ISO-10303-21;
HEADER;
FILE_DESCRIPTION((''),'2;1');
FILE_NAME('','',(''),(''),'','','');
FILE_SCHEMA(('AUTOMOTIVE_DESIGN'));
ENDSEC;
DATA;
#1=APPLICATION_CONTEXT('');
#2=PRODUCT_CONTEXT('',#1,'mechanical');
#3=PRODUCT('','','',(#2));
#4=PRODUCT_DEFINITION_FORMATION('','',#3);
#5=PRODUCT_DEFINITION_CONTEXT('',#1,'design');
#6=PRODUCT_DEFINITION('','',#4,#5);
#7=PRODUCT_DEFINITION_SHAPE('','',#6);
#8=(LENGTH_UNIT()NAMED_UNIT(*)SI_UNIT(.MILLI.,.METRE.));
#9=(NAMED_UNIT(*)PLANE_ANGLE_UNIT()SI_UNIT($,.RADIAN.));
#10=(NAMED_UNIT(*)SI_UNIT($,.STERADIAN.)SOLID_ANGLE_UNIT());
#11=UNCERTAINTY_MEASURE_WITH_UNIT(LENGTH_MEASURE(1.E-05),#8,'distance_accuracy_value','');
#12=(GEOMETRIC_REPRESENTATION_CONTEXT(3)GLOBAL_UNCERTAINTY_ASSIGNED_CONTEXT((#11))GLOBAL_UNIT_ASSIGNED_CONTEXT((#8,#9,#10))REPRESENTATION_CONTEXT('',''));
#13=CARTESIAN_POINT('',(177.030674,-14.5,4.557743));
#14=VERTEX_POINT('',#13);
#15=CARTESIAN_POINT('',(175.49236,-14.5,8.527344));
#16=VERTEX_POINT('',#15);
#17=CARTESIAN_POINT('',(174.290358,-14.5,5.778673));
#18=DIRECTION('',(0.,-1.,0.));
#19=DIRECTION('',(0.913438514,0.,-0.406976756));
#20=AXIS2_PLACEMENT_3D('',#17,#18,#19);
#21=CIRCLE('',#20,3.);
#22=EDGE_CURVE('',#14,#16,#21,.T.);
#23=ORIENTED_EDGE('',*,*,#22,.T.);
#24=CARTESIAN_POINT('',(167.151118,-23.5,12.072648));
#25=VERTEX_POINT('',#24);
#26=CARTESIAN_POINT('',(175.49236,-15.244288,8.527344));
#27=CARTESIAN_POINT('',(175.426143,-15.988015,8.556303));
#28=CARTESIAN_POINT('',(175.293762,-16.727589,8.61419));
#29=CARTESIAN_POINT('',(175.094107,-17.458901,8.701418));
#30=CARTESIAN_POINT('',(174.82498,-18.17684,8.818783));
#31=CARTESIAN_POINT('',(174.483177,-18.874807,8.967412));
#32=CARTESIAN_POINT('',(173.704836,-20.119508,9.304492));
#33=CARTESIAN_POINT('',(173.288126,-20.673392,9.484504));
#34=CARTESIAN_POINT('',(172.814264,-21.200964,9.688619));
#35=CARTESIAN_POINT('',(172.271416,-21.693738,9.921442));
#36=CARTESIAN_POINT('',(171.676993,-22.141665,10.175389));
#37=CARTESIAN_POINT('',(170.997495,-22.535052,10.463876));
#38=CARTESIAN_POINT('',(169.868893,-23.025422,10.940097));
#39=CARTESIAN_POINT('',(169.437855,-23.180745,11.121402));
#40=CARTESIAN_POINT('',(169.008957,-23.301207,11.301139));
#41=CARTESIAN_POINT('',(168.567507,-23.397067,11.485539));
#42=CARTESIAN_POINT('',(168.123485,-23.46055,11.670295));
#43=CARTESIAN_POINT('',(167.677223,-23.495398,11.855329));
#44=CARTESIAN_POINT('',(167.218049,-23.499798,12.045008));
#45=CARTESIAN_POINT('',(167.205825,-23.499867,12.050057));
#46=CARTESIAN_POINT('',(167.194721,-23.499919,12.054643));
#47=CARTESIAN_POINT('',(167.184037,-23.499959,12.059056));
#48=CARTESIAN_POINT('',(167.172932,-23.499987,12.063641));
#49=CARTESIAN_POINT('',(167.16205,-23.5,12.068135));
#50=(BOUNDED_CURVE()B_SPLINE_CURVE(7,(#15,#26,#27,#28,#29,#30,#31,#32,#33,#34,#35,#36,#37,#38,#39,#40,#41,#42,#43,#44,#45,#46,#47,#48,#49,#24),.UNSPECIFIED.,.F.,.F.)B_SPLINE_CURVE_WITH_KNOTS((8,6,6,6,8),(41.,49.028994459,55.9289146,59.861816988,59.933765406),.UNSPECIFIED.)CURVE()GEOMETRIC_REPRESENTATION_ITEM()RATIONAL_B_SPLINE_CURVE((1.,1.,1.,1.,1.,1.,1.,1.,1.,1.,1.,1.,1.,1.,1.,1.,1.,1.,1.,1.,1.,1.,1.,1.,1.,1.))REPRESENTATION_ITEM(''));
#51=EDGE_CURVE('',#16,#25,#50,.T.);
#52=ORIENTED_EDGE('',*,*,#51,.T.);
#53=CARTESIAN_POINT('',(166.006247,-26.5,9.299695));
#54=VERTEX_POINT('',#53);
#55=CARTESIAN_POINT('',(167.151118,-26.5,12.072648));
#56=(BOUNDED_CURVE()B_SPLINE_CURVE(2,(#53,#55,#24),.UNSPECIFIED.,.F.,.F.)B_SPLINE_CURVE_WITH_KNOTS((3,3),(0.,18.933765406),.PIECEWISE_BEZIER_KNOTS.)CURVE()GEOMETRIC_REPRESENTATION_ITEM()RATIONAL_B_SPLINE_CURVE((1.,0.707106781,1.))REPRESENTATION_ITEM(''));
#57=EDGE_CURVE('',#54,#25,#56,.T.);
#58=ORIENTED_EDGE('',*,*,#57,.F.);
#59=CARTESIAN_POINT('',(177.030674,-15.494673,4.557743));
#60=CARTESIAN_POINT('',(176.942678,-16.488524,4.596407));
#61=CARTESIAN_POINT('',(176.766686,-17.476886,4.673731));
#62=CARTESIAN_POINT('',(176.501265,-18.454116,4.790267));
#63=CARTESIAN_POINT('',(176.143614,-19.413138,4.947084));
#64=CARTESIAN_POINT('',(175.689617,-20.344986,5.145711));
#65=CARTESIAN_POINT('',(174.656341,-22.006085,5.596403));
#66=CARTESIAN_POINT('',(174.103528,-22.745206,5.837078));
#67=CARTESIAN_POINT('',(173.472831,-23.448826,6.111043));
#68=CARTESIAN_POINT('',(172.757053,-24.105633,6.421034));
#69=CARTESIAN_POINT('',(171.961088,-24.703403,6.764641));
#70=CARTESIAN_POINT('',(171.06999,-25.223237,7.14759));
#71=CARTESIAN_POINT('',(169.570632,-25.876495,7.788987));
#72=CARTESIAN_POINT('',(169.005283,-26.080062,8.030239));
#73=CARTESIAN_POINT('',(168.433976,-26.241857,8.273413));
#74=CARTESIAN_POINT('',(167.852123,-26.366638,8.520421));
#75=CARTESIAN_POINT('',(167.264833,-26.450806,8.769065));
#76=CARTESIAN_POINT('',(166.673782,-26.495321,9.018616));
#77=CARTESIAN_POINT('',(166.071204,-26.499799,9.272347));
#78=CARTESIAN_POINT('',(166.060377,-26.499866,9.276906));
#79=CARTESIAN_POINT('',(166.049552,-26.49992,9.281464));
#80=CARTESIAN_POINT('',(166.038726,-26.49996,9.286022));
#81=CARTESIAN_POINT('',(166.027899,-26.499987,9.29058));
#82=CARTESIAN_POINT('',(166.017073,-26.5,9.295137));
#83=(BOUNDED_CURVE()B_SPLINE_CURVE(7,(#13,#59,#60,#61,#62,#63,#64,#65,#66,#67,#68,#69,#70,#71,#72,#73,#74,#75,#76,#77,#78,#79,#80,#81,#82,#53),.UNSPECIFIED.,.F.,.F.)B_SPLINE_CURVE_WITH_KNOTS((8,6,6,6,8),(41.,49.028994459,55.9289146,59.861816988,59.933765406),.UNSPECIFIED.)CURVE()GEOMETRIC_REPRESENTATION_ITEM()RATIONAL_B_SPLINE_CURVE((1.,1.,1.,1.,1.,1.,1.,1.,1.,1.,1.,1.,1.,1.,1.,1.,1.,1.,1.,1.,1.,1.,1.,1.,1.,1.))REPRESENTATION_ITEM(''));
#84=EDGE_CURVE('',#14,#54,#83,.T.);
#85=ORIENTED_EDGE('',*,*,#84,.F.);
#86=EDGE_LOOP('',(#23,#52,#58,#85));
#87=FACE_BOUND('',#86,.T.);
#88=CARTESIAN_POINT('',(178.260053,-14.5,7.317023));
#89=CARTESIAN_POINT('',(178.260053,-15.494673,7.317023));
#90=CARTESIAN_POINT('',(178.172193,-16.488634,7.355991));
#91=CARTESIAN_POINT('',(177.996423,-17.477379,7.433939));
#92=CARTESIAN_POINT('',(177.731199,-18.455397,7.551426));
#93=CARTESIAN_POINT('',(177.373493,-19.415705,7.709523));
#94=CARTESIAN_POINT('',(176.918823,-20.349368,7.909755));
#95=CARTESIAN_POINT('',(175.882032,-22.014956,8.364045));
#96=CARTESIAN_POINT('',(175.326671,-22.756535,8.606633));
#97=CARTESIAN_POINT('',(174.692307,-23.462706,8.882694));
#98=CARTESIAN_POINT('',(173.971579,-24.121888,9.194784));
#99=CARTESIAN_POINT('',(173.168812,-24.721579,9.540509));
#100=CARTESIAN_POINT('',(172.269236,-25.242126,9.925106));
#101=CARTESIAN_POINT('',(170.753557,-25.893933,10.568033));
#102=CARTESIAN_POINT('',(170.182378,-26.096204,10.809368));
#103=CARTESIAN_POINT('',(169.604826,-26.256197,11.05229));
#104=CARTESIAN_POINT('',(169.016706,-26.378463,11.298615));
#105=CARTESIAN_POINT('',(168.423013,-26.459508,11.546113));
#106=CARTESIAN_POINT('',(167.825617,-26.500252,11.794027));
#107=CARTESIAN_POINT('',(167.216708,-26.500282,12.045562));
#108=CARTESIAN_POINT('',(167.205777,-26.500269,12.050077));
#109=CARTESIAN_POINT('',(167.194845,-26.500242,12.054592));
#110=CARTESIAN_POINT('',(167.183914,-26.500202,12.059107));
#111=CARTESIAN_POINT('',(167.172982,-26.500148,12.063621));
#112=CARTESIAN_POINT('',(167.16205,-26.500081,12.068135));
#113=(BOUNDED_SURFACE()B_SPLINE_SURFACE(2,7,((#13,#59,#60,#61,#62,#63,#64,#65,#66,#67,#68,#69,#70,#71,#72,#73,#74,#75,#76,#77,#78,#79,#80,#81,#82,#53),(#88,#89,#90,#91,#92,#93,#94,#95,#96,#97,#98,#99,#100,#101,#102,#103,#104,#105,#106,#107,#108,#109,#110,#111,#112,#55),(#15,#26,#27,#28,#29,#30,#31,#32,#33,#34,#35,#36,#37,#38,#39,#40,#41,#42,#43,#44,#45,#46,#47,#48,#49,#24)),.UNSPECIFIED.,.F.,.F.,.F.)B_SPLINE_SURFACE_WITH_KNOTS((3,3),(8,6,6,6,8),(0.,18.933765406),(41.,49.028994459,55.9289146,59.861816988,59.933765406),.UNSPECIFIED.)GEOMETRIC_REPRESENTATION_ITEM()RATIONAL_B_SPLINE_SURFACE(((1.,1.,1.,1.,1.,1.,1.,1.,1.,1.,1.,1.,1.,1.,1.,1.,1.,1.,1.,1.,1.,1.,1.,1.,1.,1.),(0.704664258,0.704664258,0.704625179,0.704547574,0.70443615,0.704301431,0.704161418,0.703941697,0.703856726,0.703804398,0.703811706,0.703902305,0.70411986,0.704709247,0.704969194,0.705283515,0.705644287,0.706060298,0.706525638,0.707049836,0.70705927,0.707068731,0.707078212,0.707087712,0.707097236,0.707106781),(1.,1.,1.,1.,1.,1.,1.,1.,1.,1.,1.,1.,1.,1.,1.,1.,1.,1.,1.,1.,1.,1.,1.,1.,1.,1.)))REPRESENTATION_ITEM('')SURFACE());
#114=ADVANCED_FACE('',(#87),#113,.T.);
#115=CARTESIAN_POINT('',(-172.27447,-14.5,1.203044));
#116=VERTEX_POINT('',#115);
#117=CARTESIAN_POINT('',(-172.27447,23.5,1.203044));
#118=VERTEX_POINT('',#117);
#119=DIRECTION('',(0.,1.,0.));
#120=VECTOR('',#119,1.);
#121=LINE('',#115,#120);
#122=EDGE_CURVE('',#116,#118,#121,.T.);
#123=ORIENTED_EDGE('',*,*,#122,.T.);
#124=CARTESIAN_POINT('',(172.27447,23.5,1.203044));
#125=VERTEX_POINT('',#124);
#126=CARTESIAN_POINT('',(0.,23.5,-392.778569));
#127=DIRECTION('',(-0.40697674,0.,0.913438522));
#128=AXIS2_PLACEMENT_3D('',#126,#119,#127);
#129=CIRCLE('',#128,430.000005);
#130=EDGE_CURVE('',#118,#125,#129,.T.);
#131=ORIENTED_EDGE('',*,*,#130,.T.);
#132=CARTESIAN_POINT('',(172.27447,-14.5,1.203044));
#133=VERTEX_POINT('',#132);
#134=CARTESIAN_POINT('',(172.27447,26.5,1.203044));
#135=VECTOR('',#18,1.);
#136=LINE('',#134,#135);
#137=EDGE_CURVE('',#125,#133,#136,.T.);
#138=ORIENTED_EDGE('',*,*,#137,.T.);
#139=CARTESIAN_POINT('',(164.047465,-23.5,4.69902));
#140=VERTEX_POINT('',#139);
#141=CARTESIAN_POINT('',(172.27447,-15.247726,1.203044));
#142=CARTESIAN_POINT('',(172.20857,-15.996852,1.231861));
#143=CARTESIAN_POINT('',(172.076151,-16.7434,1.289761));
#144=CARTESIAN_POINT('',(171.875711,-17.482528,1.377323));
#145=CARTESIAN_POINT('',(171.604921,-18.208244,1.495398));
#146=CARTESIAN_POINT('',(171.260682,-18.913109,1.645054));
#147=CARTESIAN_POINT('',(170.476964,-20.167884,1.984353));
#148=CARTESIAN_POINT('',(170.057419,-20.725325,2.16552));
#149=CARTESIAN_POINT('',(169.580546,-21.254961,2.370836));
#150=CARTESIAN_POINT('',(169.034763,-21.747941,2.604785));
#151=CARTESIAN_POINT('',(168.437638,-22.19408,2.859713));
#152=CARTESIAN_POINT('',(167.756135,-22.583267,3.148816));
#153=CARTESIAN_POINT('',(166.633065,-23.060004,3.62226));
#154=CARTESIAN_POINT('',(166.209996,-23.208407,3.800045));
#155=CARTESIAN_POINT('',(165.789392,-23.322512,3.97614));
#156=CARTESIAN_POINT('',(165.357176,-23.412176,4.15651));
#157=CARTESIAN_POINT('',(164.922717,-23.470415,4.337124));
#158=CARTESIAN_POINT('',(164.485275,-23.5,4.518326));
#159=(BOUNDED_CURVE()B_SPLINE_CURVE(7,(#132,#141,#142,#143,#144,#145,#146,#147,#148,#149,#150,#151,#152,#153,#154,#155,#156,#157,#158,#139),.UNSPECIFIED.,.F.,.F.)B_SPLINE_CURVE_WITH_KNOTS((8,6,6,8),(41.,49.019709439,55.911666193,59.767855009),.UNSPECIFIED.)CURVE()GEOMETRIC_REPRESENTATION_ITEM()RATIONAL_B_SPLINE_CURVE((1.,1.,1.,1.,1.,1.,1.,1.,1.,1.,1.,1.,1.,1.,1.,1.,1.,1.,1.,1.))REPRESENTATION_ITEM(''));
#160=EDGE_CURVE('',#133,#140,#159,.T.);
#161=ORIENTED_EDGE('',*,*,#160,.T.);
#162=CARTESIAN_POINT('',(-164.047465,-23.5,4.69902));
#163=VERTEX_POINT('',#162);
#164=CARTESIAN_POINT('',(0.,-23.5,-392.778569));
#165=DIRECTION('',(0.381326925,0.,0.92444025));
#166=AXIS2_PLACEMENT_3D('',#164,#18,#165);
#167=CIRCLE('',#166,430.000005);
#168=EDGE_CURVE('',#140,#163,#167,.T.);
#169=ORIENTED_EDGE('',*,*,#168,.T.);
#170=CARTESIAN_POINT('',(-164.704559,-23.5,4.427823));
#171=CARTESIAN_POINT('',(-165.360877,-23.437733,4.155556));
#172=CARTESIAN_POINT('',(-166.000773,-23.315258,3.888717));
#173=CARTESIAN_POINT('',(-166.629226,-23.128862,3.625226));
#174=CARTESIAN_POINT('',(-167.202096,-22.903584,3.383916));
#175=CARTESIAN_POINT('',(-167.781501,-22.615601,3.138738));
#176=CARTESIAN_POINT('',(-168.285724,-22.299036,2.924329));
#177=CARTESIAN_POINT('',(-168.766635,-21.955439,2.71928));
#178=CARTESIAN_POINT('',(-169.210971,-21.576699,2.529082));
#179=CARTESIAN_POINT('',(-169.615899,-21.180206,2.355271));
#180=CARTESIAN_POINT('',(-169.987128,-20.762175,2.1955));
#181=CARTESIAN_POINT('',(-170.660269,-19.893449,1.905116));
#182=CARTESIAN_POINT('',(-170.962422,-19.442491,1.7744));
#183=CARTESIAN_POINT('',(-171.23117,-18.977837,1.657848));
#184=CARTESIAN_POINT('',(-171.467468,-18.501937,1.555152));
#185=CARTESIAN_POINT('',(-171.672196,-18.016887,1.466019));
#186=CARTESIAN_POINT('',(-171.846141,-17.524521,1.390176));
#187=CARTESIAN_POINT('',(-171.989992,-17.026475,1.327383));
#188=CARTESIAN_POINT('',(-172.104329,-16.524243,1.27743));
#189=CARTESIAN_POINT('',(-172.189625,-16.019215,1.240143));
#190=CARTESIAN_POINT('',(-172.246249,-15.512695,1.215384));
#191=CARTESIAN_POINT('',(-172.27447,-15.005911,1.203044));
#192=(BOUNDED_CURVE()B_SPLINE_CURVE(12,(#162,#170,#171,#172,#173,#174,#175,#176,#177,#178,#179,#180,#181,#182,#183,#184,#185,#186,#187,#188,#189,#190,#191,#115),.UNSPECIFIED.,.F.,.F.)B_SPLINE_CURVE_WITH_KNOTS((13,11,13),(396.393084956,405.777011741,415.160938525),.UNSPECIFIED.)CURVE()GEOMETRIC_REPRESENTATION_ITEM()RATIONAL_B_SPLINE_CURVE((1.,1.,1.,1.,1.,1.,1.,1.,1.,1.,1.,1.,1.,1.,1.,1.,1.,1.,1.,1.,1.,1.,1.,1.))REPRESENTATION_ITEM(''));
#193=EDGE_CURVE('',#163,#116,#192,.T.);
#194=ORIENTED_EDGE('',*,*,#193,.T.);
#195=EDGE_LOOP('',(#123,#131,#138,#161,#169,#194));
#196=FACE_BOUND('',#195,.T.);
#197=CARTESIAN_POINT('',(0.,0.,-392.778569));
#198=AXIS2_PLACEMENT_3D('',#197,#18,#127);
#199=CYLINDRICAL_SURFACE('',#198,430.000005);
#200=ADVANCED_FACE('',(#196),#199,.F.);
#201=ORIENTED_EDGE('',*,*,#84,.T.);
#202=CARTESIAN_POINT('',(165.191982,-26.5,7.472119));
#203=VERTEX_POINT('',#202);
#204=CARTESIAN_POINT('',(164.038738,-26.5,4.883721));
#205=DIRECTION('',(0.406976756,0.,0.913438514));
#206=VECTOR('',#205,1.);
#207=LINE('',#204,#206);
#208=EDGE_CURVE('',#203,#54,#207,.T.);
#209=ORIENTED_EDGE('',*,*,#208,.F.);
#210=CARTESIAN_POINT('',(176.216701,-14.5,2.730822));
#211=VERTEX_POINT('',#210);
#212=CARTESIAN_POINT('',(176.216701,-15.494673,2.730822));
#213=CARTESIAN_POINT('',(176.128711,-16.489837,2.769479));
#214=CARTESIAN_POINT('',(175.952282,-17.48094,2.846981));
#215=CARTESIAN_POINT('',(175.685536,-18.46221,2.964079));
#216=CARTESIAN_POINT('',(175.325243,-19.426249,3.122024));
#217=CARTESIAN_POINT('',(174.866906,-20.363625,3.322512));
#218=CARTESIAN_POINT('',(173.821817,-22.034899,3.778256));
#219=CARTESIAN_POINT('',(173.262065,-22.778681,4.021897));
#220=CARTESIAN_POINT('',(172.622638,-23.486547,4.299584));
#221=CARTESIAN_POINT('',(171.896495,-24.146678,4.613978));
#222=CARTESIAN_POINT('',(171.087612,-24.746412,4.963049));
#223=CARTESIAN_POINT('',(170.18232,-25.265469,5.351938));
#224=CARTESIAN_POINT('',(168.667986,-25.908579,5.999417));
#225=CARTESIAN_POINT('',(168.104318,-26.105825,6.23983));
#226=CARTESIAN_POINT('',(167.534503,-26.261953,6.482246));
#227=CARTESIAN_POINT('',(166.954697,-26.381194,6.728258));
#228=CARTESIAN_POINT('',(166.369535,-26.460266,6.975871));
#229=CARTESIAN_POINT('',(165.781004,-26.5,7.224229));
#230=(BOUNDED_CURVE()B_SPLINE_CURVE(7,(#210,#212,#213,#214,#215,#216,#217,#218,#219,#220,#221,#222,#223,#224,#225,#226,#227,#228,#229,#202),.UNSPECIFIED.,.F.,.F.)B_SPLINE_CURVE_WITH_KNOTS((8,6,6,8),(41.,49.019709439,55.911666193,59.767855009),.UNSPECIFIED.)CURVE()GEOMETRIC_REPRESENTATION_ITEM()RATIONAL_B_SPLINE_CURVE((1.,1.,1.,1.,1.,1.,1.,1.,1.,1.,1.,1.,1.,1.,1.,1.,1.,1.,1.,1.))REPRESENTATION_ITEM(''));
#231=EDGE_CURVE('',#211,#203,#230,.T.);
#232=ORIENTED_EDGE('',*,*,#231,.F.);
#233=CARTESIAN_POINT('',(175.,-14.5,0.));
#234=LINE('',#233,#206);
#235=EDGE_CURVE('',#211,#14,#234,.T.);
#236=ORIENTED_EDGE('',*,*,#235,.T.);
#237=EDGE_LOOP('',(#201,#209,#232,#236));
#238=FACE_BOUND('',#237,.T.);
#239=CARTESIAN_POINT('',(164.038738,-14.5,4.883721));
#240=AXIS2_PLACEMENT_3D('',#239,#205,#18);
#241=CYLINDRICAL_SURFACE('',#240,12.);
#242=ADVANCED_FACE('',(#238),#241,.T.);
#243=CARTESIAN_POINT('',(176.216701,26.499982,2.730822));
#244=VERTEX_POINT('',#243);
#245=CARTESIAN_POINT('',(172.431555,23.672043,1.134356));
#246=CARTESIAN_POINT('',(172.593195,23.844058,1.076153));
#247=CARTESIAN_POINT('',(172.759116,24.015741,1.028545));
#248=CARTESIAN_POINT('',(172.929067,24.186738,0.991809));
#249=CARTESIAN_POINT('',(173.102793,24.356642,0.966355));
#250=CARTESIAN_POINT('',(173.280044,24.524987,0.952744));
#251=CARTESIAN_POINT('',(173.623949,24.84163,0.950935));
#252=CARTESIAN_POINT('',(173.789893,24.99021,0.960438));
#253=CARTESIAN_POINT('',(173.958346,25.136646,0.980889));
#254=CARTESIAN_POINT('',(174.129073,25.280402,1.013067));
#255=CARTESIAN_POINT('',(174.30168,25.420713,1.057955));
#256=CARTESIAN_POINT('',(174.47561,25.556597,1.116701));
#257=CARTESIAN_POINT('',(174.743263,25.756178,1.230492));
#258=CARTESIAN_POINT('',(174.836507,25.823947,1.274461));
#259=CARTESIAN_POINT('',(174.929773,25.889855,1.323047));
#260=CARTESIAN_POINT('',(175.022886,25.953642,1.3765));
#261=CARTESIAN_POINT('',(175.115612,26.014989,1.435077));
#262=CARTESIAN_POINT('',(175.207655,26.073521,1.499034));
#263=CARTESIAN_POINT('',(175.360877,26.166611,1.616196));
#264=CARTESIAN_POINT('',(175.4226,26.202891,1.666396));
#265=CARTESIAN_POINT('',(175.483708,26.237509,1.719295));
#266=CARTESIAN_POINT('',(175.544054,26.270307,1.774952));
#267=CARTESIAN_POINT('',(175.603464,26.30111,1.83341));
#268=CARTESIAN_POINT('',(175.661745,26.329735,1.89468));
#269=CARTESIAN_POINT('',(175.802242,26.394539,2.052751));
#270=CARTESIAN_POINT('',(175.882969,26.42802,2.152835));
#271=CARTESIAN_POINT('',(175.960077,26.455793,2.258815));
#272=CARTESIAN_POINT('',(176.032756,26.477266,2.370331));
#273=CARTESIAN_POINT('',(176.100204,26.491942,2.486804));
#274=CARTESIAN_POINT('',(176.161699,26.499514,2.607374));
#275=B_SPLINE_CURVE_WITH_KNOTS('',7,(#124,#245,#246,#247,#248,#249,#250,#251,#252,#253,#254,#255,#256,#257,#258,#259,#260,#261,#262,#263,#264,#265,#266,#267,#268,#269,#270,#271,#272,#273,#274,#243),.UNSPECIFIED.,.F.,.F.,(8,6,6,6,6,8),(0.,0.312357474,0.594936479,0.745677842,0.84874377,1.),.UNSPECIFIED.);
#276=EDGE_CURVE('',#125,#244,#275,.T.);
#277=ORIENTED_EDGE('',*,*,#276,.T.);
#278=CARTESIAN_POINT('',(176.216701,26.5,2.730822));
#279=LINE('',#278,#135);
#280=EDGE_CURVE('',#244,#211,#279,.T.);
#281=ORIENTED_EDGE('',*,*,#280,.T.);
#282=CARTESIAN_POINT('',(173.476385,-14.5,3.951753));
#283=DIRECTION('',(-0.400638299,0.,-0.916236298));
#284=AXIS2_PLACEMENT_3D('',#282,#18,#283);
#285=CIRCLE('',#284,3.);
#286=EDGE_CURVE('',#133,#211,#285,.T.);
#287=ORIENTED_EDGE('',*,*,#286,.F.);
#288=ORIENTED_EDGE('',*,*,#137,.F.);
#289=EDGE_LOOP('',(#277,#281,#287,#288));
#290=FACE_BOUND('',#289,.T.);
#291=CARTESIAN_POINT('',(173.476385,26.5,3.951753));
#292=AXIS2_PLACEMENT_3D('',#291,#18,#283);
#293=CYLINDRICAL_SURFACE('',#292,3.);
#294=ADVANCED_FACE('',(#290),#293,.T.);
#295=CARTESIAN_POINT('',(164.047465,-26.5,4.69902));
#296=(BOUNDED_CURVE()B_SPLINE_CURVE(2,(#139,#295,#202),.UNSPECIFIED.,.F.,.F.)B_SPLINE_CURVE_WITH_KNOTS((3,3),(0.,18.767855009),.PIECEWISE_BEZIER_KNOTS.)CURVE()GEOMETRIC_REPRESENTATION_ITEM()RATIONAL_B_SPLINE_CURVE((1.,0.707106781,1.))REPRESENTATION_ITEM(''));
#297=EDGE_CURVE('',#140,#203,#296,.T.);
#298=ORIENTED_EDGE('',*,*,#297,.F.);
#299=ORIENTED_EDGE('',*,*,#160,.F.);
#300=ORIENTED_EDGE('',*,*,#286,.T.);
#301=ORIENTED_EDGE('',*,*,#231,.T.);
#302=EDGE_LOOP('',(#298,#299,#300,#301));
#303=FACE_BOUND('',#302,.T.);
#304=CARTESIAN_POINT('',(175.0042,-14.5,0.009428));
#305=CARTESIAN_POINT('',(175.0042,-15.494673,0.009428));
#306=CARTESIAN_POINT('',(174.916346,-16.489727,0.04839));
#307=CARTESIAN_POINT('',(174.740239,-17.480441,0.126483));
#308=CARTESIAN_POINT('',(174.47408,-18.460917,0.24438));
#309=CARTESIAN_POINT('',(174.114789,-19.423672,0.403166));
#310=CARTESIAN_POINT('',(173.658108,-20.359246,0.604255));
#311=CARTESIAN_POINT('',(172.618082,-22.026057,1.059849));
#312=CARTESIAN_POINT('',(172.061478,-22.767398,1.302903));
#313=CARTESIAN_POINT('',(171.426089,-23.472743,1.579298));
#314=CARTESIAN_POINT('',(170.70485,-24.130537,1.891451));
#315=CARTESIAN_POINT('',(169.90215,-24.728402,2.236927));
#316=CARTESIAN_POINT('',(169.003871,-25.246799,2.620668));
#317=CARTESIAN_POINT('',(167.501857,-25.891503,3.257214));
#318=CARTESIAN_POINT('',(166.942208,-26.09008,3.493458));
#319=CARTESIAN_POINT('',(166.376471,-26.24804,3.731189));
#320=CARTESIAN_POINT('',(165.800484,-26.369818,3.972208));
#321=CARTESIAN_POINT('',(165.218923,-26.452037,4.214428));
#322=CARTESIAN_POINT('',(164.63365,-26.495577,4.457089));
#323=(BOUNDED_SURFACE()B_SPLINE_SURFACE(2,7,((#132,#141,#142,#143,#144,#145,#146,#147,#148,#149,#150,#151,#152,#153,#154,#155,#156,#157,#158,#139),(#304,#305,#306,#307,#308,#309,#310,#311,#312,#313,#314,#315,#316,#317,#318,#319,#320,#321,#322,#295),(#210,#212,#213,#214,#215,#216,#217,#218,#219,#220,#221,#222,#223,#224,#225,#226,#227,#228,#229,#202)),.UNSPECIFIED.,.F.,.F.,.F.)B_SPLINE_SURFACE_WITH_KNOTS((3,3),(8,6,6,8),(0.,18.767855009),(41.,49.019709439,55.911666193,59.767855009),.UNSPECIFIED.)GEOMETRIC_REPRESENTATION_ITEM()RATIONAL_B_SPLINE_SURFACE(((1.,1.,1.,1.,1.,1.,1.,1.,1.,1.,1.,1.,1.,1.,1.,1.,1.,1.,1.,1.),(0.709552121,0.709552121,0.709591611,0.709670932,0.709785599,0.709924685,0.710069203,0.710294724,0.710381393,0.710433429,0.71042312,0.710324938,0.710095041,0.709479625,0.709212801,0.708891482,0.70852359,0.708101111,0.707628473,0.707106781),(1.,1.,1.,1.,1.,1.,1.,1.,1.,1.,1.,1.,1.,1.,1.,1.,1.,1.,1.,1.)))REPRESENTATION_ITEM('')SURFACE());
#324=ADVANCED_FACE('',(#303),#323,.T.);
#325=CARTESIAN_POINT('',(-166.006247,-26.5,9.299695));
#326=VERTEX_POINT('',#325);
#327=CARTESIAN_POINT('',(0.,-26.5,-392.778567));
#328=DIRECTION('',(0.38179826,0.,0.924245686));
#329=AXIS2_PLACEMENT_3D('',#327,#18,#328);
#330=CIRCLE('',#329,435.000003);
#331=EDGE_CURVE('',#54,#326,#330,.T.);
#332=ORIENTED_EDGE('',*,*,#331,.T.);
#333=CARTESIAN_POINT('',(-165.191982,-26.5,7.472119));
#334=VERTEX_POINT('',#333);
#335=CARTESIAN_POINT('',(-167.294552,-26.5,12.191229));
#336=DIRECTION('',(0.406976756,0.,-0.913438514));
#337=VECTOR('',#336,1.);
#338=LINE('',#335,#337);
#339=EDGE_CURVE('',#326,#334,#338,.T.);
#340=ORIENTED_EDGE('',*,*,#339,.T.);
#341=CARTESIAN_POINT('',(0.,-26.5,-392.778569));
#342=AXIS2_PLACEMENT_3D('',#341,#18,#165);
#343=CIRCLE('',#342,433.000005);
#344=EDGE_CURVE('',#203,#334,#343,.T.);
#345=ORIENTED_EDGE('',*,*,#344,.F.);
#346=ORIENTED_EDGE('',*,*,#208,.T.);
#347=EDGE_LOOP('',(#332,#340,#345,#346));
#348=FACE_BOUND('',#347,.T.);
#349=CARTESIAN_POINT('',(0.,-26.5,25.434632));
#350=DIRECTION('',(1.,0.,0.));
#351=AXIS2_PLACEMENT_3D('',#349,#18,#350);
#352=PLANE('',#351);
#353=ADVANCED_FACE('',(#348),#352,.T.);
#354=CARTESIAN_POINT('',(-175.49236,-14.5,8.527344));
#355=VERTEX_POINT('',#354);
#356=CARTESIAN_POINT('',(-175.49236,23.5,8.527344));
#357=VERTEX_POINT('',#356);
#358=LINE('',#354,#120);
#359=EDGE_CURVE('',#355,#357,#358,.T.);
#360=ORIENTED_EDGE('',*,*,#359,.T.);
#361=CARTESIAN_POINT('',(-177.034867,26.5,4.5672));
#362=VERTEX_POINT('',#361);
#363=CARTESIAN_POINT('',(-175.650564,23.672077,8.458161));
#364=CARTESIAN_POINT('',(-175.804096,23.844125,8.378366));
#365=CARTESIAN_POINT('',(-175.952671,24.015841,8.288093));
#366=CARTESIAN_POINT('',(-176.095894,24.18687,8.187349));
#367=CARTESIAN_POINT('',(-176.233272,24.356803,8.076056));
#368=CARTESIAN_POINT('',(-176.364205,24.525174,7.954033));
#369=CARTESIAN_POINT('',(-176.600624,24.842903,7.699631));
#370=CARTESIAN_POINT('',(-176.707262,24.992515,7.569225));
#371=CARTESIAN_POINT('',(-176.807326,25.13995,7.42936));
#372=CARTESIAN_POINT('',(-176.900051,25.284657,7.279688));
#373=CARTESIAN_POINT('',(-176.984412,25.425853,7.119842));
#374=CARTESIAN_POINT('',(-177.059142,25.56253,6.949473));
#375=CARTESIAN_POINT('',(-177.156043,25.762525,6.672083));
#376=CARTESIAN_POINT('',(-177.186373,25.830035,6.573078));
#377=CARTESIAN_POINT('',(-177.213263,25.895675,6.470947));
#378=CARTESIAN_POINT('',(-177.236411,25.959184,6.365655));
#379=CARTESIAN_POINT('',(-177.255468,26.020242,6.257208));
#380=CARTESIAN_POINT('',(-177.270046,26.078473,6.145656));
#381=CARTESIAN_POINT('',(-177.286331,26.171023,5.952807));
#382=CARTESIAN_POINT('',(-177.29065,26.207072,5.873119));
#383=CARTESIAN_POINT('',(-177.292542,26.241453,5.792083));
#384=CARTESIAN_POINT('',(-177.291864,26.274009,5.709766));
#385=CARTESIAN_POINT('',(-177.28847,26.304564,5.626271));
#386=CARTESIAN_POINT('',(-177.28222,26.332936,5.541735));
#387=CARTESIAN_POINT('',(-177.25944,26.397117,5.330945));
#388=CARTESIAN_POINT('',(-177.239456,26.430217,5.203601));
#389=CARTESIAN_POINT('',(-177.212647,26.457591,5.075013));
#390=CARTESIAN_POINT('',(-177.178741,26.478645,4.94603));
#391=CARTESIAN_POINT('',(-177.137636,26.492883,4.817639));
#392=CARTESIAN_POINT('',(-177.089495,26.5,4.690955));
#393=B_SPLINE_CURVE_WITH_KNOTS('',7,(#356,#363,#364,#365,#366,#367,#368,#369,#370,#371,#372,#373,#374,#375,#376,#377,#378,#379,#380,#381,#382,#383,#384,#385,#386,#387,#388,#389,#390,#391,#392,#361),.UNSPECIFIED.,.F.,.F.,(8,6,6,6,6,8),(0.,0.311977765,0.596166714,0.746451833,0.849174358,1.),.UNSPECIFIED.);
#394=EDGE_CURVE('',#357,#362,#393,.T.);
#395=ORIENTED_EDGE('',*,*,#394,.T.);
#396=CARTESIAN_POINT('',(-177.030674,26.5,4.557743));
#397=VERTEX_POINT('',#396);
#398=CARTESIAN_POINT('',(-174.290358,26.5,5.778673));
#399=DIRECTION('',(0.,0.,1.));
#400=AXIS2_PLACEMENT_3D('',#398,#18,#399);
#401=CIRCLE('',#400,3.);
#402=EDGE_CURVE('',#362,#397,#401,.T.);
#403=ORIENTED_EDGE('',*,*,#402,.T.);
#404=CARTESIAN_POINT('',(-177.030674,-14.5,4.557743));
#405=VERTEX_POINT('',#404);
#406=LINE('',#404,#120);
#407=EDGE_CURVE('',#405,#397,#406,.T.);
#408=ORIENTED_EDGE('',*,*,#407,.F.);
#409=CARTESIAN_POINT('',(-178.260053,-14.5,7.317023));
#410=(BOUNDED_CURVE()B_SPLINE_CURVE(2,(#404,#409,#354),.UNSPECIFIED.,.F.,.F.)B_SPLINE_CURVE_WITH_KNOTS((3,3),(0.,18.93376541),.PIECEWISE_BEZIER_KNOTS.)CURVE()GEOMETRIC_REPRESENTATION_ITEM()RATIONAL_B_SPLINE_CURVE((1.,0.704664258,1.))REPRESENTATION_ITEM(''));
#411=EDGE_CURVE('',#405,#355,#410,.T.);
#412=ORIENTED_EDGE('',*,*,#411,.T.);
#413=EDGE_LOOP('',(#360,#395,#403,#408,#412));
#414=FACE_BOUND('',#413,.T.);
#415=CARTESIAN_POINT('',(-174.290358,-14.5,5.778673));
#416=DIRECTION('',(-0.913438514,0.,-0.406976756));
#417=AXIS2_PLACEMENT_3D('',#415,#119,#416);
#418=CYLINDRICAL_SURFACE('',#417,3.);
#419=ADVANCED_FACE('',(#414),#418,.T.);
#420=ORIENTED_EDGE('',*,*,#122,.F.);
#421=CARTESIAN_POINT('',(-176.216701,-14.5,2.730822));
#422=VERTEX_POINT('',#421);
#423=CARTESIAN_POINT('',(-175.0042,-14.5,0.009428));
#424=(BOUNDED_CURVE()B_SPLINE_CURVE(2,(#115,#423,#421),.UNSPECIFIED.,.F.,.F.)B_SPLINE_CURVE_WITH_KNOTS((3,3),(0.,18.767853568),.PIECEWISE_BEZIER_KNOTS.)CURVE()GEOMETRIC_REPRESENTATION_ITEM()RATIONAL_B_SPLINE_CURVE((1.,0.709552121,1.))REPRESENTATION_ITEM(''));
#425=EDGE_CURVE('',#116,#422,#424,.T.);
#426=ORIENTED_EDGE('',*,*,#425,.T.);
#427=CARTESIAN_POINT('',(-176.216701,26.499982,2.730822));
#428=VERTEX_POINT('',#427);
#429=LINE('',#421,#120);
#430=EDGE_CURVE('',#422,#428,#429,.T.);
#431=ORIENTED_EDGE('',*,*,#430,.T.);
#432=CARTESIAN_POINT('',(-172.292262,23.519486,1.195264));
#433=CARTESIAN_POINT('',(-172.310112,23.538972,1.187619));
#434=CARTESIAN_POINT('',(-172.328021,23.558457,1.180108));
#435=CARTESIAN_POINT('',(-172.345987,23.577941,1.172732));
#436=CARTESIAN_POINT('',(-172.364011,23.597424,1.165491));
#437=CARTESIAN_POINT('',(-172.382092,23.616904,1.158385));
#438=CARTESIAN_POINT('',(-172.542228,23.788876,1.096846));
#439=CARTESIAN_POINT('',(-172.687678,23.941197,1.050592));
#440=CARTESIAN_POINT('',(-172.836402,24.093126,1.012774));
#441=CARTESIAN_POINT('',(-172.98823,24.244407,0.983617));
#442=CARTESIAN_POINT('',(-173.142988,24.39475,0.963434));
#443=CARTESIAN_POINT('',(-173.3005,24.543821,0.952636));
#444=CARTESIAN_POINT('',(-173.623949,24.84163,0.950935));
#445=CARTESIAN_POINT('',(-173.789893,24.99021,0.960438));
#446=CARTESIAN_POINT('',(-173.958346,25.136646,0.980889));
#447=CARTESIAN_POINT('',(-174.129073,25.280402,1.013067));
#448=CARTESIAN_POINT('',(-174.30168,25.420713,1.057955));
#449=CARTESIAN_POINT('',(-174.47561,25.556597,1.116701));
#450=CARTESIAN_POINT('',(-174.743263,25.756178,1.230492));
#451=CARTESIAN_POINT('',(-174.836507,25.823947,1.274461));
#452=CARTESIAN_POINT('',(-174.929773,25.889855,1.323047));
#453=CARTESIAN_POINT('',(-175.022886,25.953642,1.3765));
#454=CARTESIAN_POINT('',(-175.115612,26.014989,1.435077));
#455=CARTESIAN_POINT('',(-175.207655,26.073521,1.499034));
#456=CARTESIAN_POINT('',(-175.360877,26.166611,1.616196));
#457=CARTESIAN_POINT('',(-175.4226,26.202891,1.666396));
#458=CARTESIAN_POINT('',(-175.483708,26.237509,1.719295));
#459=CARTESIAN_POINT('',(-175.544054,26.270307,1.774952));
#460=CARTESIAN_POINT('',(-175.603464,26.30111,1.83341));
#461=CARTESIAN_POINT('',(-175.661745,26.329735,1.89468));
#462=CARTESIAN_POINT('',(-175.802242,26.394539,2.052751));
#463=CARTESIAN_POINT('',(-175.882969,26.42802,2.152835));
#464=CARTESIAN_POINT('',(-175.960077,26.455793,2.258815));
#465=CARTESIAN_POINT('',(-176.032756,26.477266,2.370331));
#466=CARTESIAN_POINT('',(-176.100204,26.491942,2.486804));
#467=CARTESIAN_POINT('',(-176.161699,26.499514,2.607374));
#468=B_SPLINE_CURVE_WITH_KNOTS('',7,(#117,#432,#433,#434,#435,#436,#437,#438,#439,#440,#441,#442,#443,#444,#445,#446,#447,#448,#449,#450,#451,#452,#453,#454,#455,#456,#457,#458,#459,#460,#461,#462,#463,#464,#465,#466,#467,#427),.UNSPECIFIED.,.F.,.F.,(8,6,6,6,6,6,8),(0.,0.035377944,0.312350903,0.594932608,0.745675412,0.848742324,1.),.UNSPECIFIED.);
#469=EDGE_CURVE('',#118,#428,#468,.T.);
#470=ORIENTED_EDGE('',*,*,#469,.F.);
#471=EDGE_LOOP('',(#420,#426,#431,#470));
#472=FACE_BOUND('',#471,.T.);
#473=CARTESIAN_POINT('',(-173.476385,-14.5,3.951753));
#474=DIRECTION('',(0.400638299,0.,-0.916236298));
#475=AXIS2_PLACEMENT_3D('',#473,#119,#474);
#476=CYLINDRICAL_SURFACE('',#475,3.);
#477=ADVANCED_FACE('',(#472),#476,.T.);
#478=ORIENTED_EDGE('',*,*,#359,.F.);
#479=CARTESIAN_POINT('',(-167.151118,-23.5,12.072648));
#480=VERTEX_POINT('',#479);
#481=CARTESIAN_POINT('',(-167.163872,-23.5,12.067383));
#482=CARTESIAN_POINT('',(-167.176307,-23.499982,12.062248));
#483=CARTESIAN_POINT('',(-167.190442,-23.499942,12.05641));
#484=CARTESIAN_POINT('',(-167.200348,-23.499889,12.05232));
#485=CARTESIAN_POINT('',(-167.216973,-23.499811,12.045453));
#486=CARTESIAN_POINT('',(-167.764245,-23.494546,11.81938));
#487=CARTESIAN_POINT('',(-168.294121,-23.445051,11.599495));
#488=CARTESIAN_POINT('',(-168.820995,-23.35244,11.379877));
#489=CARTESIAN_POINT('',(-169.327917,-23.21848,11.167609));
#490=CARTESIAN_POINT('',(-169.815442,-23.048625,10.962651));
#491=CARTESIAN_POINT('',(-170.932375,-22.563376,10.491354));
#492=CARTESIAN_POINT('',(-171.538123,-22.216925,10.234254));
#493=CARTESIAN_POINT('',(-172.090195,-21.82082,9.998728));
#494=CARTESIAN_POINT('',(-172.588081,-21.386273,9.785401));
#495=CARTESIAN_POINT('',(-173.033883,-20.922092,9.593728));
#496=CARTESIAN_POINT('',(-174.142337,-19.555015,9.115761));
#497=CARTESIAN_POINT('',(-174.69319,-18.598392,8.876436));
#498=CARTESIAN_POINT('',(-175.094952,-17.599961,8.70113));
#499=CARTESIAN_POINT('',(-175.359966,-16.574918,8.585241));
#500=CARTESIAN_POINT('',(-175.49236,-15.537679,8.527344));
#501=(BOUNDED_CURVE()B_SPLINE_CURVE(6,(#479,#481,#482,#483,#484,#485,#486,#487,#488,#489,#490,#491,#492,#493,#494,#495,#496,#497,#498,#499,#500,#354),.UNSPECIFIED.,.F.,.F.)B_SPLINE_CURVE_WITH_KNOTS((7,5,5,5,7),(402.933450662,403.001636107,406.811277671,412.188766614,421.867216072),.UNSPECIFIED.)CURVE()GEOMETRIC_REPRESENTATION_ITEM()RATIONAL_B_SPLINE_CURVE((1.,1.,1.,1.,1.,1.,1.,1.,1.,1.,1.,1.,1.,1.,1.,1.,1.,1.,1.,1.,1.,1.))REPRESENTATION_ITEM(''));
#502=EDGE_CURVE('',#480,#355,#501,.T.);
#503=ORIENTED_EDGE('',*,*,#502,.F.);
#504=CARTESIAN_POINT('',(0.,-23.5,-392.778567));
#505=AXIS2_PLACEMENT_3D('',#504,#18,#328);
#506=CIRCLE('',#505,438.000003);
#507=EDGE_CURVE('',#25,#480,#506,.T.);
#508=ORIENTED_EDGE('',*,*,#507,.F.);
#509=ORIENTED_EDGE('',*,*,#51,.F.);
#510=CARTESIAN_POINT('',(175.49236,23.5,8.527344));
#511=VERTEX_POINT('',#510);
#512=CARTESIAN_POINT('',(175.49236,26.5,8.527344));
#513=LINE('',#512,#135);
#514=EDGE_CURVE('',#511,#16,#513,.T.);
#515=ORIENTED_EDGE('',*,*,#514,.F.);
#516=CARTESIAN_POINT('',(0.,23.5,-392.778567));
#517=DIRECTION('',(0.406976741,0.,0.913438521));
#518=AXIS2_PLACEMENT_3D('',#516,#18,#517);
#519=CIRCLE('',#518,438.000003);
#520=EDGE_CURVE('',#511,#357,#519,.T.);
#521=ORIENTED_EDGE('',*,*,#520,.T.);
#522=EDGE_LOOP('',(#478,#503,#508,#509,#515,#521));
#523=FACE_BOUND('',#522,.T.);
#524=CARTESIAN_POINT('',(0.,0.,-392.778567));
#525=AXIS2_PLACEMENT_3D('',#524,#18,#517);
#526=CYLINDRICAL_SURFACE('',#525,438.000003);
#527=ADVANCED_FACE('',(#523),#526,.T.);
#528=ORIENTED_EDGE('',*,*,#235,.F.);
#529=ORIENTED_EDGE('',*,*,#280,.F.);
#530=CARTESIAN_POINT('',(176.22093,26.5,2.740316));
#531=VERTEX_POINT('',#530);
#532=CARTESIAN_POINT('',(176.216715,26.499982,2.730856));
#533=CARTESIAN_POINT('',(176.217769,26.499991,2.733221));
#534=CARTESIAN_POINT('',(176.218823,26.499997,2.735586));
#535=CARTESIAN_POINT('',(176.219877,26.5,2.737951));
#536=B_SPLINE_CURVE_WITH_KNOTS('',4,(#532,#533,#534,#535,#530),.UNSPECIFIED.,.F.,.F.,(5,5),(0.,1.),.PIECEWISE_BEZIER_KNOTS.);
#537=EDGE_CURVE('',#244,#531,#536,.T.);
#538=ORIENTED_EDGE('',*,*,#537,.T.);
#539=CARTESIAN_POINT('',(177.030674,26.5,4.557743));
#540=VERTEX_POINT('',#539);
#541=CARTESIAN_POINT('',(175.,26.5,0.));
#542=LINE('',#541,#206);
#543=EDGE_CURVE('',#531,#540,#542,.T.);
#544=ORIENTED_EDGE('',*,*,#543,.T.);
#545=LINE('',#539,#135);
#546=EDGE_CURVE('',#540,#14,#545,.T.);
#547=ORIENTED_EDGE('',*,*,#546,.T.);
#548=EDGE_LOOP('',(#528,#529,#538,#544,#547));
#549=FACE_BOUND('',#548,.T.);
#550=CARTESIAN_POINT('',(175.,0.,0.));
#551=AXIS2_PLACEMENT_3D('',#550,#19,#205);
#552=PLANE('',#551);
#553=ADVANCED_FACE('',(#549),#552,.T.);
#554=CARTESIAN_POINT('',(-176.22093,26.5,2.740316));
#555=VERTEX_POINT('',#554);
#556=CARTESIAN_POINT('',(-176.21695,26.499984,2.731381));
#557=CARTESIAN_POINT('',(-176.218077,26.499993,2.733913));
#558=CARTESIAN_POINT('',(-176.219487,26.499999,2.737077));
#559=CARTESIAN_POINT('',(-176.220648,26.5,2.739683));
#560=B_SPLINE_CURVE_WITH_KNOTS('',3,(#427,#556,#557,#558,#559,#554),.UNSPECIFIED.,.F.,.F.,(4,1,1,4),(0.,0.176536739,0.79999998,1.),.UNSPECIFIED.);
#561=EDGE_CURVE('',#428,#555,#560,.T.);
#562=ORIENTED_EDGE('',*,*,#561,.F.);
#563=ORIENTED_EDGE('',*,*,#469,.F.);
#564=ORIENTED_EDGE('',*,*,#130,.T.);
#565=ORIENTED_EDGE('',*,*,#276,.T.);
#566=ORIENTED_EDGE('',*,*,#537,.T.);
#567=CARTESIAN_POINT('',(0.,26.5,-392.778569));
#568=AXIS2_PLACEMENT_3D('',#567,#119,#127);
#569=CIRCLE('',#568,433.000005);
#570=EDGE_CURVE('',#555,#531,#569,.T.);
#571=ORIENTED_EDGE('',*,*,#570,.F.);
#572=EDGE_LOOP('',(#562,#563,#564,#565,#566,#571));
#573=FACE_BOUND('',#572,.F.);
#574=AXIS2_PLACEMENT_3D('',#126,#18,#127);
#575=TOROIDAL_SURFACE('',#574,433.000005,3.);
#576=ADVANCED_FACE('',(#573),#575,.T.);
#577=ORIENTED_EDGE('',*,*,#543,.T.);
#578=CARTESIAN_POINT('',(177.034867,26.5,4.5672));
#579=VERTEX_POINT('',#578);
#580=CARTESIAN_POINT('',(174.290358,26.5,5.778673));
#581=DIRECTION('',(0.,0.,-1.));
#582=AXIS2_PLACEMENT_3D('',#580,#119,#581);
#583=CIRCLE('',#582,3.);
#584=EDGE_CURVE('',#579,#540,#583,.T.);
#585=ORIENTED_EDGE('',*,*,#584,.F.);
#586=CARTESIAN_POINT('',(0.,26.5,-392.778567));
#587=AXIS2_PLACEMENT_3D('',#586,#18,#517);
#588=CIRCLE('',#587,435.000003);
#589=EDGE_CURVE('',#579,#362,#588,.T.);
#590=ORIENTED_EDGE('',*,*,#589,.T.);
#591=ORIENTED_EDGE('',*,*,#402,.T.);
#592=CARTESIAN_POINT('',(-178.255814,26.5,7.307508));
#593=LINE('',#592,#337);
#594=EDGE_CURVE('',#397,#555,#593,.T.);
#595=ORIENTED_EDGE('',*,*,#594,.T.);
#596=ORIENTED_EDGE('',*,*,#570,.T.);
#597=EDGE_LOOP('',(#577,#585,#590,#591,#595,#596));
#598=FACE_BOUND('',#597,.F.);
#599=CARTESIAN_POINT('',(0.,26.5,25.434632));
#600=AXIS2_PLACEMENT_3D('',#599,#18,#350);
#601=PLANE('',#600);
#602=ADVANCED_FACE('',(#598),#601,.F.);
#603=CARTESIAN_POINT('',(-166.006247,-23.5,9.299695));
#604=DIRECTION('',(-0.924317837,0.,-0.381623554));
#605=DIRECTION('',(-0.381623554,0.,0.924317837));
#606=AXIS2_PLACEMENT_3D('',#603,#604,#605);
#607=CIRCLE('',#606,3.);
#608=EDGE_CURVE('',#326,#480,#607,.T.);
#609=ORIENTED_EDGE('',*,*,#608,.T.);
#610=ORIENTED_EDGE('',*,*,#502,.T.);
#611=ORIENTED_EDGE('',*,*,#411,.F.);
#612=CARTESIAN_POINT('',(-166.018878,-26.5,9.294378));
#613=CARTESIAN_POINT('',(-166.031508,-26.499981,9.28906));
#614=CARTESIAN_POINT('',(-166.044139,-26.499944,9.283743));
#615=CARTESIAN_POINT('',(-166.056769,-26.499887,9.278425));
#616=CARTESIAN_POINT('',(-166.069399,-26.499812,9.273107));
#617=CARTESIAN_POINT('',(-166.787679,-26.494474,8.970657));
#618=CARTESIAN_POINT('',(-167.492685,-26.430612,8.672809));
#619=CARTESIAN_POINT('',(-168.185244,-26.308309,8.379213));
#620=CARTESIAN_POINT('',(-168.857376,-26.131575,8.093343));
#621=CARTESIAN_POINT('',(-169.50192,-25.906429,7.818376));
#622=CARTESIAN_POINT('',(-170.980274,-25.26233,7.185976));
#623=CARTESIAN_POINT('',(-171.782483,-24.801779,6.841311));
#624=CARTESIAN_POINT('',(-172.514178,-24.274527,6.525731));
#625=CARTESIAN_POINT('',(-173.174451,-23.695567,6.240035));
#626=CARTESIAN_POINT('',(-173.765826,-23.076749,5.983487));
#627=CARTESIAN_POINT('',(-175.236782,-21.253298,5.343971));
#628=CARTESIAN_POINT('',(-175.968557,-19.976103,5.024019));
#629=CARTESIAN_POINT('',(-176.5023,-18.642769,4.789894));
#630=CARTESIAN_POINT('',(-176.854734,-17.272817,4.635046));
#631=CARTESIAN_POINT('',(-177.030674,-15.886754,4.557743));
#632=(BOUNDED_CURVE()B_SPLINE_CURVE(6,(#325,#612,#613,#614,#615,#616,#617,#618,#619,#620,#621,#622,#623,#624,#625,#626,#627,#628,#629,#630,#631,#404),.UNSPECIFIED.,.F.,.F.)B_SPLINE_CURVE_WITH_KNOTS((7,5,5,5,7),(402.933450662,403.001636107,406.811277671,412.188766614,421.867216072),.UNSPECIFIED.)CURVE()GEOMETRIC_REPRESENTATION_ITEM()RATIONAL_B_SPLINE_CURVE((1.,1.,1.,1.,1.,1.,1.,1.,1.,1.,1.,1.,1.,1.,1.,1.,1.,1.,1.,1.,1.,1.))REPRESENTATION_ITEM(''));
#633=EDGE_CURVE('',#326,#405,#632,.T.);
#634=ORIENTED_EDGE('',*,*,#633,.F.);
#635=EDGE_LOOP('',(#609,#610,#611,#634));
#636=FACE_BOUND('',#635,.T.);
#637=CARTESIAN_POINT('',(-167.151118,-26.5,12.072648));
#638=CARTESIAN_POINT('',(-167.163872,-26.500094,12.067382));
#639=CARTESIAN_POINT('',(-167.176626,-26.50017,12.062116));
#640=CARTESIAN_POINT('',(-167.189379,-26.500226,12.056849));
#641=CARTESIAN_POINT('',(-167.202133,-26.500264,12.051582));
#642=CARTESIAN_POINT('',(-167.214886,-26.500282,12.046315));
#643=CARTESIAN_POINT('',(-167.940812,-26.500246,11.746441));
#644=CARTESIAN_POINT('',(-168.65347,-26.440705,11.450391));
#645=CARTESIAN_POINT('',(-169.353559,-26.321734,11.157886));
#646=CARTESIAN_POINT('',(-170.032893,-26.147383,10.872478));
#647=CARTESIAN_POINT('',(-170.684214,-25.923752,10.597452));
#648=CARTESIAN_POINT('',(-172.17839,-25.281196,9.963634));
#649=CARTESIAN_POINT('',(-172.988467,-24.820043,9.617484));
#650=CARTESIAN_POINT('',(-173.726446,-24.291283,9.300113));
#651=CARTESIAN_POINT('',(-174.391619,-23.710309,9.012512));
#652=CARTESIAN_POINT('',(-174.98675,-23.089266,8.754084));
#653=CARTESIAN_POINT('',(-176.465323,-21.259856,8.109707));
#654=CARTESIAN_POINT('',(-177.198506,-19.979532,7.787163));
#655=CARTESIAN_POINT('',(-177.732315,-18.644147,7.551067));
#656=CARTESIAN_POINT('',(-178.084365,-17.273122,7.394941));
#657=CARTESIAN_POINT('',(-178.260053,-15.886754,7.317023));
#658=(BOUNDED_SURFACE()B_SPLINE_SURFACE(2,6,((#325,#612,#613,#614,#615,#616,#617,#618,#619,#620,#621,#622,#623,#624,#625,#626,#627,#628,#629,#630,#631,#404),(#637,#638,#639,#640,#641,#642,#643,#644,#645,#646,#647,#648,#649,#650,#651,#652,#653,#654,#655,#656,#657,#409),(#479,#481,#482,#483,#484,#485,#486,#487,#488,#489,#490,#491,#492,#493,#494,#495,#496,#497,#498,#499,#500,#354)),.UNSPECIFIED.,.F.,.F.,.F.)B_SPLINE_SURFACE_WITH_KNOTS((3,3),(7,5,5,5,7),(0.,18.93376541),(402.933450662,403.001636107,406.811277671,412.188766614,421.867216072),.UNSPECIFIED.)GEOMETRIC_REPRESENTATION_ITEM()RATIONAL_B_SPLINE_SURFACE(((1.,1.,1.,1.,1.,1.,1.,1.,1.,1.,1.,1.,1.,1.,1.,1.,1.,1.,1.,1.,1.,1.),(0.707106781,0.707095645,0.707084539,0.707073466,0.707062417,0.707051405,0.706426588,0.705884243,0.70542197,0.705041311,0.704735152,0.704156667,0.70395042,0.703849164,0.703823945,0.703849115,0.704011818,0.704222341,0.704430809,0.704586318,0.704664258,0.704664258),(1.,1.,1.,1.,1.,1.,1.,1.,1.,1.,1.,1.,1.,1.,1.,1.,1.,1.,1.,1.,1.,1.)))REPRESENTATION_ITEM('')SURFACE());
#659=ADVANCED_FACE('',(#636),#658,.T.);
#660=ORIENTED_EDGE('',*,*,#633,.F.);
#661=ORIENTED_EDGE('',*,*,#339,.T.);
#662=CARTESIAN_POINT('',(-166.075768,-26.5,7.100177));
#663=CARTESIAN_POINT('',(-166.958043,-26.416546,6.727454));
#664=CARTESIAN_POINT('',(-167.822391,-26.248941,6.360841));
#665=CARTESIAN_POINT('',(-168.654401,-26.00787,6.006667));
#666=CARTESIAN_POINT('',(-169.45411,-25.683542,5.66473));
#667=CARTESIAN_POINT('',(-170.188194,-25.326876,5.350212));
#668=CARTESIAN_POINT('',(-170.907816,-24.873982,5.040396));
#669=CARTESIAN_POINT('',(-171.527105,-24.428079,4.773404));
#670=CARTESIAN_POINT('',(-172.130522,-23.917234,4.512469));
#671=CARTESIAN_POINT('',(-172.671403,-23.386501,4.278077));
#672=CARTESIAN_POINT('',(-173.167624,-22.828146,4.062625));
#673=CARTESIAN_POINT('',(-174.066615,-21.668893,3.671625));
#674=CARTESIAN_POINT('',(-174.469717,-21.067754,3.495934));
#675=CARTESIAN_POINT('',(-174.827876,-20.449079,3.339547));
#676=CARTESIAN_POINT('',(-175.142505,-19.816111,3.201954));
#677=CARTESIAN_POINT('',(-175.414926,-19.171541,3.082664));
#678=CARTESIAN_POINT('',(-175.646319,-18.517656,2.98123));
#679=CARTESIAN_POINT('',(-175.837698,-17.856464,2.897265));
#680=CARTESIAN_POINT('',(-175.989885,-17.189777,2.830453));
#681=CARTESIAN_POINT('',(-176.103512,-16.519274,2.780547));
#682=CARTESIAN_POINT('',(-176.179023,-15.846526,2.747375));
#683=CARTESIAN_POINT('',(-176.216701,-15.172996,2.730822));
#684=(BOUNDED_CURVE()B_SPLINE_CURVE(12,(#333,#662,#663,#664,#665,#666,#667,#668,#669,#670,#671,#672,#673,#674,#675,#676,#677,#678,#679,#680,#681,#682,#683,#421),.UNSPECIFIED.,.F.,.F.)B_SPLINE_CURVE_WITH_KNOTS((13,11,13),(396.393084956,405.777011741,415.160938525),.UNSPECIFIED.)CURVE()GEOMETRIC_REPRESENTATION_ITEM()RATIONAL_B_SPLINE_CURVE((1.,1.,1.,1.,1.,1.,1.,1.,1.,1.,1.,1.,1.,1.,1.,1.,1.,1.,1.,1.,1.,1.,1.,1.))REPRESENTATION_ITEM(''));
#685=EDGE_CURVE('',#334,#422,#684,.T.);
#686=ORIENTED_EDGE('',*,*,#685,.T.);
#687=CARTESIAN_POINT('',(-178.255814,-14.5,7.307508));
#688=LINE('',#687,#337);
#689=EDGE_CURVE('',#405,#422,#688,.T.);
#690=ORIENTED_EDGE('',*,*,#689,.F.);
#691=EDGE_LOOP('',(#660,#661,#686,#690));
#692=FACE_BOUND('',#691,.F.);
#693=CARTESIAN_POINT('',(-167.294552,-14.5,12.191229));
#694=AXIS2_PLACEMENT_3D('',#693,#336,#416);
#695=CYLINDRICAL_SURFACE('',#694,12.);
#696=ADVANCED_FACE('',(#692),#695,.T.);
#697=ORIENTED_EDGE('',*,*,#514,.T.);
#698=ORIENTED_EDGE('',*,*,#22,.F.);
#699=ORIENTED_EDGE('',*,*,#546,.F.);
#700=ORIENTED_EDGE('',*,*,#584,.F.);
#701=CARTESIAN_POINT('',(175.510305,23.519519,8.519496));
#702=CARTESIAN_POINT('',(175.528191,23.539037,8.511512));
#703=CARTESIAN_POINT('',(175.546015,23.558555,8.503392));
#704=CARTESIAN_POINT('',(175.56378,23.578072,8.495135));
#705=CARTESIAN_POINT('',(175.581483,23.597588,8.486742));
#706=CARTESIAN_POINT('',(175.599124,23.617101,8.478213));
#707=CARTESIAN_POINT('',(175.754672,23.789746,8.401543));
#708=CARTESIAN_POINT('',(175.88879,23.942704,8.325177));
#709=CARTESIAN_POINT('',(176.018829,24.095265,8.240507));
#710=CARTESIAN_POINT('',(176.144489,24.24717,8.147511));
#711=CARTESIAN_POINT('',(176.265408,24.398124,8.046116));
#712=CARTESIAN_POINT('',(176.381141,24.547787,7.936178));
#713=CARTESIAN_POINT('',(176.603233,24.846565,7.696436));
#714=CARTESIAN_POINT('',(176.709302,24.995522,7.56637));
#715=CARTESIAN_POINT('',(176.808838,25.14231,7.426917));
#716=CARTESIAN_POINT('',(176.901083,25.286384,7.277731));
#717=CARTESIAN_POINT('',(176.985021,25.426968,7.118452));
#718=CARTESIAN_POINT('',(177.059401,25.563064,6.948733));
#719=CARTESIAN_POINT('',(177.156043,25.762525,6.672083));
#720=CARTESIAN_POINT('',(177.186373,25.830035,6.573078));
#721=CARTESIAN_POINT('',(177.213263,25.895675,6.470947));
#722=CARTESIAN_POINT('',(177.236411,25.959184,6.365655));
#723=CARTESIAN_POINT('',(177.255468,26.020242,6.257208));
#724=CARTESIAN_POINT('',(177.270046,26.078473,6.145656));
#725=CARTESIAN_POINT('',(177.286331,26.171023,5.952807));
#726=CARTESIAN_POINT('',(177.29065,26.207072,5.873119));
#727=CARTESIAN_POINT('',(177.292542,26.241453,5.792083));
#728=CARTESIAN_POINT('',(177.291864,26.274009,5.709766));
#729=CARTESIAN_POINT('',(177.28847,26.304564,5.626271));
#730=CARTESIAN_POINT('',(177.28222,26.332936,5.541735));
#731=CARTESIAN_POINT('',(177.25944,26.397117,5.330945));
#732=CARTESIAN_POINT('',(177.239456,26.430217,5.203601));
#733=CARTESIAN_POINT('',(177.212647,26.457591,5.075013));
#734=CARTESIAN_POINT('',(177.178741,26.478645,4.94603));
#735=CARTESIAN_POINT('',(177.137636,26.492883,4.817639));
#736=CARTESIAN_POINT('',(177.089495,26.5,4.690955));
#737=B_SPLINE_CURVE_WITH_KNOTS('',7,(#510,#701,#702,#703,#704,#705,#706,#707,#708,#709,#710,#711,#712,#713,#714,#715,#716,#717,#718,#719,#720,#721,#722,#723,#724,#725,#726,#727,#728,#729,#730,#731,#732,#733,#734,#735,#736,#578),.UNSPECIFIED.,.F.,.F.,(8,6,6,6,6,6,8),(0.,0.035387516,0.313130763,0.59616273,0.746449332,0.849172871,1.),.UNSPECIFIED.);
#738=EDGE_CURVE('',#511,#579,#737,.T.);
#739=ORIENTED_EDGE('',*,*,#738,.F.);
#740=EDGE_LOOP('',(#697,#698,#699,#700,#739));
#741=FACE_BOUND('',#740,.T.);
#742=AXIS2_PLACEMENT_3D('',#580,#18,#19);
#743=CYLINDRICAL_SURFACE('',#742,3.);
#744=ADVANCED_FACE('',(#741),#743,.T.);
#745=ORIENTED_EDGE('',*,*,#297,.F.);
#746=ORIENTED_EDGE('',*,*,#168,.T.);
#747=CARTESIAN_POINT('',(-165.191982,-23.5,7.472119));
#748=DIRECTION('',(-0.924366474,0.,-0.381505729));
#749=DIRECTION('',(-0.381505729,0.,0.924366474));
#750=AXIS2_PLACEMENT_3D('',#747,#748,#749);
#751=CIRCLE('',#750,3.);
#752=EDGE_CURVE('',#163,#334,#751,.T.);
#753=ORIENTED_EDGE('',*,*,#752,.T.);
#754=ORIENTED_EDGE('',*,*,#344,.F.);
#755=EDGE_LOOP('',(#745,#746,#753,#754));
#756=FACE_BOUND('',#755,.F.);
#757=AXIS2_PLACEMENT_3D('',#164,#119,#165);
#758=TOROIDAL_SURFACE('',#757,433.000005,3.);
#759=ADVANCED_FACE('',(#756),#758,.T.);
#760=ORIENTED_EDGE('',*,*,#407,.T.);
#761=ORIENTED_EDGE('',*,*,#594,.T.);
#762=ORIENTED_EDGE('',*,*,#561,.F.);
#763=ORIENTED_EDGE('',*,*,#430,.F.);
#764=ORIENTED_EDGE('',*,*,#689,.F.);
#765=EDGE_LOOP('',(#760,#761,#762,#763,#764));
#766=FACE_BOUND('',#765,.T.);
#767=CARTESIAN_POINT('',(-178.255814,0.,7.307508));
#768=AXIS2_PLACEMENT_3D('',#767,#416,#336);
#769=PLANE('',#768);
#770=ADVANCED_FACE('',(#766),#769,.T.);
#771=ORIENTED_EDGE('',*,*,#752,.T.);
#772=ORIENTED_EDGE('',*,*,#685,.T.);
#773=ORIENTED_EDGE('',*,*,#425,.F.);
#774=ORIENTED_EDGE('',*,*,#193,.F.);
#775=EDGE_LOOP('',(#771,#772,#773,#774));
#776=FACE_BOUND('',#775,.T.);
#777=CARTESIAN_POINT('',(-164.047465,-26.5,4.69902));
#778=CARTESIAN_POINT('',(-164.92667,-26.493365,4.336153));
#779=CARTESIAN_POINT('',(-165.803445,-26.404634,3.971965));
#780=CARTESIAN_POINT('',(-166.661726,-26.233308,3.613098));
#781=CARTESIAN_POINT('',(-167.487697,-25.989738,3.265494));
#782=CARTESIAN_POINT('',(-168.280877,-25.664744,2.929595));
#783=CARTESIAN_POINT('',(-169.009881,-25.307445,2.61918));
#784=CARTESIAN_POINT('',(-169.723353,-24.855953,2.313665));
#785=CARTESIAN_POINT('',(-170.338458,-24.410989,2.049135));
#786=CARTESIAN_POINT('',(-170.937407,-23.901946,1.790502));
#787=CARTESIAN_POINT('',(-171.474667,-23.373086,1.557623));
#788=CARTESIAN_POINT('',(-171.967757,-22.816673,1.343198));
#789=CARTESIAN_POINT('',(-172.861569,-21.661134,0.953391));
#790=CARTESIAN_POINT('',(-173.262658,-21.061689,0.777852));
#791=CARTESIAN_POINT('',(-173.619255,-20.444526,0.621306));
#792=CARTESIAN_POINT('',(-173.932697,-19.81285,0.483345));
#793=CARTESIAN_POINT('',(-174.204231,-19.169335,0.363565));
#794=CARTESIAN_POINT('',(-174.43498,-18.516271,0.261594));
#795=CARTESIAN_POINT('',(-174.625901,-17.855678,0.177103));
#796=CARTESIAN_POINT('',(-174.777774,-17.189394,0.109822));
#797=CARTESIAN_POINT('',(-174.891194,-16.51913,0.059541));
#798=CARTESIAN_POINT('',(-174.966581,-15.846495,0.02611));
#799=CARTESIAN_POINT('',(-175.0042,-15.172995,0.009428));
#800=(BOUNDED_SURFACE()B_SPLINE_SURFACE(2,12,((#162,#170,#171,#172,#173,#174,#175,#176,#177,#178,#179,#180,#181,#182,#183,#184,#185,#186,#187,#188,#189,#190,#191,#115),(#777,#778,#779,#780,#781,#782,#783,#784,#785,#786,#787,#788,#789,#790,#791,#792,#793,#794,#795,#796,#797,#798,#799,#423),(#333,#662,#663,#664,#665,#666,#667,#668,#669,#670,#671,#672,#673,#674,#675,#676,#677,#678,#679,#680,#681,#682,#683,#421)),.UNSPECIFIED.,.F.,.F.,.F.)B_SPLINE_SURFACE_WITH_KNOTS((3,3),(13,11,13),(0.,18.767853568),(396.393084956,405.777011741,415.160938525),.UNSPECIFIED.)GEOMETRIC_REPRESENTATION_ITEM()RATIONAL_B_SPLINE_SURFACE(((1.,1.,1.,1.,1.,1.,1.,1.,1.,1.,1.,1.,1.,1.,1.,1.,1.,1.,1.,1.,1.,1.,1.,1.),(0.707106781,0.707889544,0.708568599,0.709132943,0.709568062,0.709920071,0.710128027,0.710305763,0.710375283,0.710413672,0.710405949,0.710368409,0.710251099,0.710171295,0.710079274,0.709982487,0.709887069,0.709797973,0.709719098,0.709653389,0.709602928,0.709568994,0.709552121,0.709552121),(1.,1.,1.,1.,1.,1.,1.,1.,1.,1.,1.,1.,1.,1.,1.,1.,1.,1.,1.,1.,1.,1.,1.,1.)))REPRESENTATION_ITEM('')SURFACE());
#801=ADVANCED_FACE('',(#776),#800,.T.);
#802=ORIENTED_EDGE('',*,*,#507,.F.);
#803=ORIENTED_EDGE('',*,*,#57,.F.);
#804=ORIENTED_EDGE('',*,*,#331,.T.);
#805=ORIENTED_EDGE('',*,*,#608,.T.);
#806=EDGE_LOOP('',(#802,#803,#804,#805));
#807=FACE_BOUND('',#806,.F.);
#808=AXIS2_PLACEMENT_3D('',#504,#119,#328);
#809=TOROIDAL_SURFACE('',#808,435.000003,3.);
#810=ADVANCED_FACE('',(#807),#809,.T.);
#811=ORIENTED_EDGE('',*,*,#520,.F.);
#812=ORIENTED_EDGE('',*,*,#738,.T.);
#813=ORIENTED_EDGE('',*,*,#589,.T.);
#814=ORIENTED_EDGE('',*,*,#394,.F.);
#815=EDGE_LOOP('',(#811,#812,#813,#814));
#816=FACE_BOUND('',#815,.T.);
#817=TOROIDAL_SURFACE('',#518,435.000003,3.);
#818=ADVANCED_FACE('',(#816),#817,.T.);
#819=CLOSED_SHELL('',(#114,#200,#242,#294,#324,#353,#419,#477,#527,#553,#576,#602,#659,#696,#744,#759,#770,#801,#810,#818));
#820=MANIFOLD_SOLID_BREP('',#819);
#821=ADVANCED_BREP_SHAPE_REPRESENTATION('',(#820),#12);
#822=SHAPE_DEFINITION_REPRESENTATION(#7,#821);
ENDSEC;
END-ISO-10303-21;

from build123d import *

# Parameters (mm, degrees)
F1_DEPTH = 26.5
F2_R     = 12
F3_R     = 3


with BuildPart() as f1:
    # F0 (on Front) → F1 (new body, symmetric)
    with BuildSketch(Plane.XZ):
        with BuildLine():
            ThreePointArc((-175, 0), (0, 37.221436), (175, 0))
            Line((175, 0), (178.255814, 7.307508))
            ThreePointArc((178.255814, 7.307508), (0, 45.221436), (-178.255814, 7.307508))
            Line((-178.255814, 7.307508), (-175, 0))
        make_face()
    extrude(amount=F1_DEPTH, both=True)

    # F2
    f2_edges = [f1.edges().sort_by_distance(p)[0] for p in [
        (-176.627907, -26.5, 3.653754),
        (176.627907, -26.5, 3.653754),
    ]]
    fillet(f2_edges, radius=F2_R)

    # F3
    f3_edges = [f1.edges().sort_by_distance(p)[0] for p in [
        (175, 6, 0),
        (171.783213, -22.985785, 1.417489),
        (0, 26.5, 37.221436),
        (0, -26.5, 37.221436),
        (-175, 6, 0),
        (-171.783212, -22.985786, 1.417489),
        (178.255814, 6, 7.307508),
        (175.03915, -22.985767, 8.72523),
        (0, 26.5, 45.221436),
        (0, -26.5, 45.221436),
        (-178.255814, 6, 7.307508),
        (-175.03915, -22.985767, 8.725229),
    ]]
    fillet(f3_edges, radius=F3_R)


solid = f1.part
